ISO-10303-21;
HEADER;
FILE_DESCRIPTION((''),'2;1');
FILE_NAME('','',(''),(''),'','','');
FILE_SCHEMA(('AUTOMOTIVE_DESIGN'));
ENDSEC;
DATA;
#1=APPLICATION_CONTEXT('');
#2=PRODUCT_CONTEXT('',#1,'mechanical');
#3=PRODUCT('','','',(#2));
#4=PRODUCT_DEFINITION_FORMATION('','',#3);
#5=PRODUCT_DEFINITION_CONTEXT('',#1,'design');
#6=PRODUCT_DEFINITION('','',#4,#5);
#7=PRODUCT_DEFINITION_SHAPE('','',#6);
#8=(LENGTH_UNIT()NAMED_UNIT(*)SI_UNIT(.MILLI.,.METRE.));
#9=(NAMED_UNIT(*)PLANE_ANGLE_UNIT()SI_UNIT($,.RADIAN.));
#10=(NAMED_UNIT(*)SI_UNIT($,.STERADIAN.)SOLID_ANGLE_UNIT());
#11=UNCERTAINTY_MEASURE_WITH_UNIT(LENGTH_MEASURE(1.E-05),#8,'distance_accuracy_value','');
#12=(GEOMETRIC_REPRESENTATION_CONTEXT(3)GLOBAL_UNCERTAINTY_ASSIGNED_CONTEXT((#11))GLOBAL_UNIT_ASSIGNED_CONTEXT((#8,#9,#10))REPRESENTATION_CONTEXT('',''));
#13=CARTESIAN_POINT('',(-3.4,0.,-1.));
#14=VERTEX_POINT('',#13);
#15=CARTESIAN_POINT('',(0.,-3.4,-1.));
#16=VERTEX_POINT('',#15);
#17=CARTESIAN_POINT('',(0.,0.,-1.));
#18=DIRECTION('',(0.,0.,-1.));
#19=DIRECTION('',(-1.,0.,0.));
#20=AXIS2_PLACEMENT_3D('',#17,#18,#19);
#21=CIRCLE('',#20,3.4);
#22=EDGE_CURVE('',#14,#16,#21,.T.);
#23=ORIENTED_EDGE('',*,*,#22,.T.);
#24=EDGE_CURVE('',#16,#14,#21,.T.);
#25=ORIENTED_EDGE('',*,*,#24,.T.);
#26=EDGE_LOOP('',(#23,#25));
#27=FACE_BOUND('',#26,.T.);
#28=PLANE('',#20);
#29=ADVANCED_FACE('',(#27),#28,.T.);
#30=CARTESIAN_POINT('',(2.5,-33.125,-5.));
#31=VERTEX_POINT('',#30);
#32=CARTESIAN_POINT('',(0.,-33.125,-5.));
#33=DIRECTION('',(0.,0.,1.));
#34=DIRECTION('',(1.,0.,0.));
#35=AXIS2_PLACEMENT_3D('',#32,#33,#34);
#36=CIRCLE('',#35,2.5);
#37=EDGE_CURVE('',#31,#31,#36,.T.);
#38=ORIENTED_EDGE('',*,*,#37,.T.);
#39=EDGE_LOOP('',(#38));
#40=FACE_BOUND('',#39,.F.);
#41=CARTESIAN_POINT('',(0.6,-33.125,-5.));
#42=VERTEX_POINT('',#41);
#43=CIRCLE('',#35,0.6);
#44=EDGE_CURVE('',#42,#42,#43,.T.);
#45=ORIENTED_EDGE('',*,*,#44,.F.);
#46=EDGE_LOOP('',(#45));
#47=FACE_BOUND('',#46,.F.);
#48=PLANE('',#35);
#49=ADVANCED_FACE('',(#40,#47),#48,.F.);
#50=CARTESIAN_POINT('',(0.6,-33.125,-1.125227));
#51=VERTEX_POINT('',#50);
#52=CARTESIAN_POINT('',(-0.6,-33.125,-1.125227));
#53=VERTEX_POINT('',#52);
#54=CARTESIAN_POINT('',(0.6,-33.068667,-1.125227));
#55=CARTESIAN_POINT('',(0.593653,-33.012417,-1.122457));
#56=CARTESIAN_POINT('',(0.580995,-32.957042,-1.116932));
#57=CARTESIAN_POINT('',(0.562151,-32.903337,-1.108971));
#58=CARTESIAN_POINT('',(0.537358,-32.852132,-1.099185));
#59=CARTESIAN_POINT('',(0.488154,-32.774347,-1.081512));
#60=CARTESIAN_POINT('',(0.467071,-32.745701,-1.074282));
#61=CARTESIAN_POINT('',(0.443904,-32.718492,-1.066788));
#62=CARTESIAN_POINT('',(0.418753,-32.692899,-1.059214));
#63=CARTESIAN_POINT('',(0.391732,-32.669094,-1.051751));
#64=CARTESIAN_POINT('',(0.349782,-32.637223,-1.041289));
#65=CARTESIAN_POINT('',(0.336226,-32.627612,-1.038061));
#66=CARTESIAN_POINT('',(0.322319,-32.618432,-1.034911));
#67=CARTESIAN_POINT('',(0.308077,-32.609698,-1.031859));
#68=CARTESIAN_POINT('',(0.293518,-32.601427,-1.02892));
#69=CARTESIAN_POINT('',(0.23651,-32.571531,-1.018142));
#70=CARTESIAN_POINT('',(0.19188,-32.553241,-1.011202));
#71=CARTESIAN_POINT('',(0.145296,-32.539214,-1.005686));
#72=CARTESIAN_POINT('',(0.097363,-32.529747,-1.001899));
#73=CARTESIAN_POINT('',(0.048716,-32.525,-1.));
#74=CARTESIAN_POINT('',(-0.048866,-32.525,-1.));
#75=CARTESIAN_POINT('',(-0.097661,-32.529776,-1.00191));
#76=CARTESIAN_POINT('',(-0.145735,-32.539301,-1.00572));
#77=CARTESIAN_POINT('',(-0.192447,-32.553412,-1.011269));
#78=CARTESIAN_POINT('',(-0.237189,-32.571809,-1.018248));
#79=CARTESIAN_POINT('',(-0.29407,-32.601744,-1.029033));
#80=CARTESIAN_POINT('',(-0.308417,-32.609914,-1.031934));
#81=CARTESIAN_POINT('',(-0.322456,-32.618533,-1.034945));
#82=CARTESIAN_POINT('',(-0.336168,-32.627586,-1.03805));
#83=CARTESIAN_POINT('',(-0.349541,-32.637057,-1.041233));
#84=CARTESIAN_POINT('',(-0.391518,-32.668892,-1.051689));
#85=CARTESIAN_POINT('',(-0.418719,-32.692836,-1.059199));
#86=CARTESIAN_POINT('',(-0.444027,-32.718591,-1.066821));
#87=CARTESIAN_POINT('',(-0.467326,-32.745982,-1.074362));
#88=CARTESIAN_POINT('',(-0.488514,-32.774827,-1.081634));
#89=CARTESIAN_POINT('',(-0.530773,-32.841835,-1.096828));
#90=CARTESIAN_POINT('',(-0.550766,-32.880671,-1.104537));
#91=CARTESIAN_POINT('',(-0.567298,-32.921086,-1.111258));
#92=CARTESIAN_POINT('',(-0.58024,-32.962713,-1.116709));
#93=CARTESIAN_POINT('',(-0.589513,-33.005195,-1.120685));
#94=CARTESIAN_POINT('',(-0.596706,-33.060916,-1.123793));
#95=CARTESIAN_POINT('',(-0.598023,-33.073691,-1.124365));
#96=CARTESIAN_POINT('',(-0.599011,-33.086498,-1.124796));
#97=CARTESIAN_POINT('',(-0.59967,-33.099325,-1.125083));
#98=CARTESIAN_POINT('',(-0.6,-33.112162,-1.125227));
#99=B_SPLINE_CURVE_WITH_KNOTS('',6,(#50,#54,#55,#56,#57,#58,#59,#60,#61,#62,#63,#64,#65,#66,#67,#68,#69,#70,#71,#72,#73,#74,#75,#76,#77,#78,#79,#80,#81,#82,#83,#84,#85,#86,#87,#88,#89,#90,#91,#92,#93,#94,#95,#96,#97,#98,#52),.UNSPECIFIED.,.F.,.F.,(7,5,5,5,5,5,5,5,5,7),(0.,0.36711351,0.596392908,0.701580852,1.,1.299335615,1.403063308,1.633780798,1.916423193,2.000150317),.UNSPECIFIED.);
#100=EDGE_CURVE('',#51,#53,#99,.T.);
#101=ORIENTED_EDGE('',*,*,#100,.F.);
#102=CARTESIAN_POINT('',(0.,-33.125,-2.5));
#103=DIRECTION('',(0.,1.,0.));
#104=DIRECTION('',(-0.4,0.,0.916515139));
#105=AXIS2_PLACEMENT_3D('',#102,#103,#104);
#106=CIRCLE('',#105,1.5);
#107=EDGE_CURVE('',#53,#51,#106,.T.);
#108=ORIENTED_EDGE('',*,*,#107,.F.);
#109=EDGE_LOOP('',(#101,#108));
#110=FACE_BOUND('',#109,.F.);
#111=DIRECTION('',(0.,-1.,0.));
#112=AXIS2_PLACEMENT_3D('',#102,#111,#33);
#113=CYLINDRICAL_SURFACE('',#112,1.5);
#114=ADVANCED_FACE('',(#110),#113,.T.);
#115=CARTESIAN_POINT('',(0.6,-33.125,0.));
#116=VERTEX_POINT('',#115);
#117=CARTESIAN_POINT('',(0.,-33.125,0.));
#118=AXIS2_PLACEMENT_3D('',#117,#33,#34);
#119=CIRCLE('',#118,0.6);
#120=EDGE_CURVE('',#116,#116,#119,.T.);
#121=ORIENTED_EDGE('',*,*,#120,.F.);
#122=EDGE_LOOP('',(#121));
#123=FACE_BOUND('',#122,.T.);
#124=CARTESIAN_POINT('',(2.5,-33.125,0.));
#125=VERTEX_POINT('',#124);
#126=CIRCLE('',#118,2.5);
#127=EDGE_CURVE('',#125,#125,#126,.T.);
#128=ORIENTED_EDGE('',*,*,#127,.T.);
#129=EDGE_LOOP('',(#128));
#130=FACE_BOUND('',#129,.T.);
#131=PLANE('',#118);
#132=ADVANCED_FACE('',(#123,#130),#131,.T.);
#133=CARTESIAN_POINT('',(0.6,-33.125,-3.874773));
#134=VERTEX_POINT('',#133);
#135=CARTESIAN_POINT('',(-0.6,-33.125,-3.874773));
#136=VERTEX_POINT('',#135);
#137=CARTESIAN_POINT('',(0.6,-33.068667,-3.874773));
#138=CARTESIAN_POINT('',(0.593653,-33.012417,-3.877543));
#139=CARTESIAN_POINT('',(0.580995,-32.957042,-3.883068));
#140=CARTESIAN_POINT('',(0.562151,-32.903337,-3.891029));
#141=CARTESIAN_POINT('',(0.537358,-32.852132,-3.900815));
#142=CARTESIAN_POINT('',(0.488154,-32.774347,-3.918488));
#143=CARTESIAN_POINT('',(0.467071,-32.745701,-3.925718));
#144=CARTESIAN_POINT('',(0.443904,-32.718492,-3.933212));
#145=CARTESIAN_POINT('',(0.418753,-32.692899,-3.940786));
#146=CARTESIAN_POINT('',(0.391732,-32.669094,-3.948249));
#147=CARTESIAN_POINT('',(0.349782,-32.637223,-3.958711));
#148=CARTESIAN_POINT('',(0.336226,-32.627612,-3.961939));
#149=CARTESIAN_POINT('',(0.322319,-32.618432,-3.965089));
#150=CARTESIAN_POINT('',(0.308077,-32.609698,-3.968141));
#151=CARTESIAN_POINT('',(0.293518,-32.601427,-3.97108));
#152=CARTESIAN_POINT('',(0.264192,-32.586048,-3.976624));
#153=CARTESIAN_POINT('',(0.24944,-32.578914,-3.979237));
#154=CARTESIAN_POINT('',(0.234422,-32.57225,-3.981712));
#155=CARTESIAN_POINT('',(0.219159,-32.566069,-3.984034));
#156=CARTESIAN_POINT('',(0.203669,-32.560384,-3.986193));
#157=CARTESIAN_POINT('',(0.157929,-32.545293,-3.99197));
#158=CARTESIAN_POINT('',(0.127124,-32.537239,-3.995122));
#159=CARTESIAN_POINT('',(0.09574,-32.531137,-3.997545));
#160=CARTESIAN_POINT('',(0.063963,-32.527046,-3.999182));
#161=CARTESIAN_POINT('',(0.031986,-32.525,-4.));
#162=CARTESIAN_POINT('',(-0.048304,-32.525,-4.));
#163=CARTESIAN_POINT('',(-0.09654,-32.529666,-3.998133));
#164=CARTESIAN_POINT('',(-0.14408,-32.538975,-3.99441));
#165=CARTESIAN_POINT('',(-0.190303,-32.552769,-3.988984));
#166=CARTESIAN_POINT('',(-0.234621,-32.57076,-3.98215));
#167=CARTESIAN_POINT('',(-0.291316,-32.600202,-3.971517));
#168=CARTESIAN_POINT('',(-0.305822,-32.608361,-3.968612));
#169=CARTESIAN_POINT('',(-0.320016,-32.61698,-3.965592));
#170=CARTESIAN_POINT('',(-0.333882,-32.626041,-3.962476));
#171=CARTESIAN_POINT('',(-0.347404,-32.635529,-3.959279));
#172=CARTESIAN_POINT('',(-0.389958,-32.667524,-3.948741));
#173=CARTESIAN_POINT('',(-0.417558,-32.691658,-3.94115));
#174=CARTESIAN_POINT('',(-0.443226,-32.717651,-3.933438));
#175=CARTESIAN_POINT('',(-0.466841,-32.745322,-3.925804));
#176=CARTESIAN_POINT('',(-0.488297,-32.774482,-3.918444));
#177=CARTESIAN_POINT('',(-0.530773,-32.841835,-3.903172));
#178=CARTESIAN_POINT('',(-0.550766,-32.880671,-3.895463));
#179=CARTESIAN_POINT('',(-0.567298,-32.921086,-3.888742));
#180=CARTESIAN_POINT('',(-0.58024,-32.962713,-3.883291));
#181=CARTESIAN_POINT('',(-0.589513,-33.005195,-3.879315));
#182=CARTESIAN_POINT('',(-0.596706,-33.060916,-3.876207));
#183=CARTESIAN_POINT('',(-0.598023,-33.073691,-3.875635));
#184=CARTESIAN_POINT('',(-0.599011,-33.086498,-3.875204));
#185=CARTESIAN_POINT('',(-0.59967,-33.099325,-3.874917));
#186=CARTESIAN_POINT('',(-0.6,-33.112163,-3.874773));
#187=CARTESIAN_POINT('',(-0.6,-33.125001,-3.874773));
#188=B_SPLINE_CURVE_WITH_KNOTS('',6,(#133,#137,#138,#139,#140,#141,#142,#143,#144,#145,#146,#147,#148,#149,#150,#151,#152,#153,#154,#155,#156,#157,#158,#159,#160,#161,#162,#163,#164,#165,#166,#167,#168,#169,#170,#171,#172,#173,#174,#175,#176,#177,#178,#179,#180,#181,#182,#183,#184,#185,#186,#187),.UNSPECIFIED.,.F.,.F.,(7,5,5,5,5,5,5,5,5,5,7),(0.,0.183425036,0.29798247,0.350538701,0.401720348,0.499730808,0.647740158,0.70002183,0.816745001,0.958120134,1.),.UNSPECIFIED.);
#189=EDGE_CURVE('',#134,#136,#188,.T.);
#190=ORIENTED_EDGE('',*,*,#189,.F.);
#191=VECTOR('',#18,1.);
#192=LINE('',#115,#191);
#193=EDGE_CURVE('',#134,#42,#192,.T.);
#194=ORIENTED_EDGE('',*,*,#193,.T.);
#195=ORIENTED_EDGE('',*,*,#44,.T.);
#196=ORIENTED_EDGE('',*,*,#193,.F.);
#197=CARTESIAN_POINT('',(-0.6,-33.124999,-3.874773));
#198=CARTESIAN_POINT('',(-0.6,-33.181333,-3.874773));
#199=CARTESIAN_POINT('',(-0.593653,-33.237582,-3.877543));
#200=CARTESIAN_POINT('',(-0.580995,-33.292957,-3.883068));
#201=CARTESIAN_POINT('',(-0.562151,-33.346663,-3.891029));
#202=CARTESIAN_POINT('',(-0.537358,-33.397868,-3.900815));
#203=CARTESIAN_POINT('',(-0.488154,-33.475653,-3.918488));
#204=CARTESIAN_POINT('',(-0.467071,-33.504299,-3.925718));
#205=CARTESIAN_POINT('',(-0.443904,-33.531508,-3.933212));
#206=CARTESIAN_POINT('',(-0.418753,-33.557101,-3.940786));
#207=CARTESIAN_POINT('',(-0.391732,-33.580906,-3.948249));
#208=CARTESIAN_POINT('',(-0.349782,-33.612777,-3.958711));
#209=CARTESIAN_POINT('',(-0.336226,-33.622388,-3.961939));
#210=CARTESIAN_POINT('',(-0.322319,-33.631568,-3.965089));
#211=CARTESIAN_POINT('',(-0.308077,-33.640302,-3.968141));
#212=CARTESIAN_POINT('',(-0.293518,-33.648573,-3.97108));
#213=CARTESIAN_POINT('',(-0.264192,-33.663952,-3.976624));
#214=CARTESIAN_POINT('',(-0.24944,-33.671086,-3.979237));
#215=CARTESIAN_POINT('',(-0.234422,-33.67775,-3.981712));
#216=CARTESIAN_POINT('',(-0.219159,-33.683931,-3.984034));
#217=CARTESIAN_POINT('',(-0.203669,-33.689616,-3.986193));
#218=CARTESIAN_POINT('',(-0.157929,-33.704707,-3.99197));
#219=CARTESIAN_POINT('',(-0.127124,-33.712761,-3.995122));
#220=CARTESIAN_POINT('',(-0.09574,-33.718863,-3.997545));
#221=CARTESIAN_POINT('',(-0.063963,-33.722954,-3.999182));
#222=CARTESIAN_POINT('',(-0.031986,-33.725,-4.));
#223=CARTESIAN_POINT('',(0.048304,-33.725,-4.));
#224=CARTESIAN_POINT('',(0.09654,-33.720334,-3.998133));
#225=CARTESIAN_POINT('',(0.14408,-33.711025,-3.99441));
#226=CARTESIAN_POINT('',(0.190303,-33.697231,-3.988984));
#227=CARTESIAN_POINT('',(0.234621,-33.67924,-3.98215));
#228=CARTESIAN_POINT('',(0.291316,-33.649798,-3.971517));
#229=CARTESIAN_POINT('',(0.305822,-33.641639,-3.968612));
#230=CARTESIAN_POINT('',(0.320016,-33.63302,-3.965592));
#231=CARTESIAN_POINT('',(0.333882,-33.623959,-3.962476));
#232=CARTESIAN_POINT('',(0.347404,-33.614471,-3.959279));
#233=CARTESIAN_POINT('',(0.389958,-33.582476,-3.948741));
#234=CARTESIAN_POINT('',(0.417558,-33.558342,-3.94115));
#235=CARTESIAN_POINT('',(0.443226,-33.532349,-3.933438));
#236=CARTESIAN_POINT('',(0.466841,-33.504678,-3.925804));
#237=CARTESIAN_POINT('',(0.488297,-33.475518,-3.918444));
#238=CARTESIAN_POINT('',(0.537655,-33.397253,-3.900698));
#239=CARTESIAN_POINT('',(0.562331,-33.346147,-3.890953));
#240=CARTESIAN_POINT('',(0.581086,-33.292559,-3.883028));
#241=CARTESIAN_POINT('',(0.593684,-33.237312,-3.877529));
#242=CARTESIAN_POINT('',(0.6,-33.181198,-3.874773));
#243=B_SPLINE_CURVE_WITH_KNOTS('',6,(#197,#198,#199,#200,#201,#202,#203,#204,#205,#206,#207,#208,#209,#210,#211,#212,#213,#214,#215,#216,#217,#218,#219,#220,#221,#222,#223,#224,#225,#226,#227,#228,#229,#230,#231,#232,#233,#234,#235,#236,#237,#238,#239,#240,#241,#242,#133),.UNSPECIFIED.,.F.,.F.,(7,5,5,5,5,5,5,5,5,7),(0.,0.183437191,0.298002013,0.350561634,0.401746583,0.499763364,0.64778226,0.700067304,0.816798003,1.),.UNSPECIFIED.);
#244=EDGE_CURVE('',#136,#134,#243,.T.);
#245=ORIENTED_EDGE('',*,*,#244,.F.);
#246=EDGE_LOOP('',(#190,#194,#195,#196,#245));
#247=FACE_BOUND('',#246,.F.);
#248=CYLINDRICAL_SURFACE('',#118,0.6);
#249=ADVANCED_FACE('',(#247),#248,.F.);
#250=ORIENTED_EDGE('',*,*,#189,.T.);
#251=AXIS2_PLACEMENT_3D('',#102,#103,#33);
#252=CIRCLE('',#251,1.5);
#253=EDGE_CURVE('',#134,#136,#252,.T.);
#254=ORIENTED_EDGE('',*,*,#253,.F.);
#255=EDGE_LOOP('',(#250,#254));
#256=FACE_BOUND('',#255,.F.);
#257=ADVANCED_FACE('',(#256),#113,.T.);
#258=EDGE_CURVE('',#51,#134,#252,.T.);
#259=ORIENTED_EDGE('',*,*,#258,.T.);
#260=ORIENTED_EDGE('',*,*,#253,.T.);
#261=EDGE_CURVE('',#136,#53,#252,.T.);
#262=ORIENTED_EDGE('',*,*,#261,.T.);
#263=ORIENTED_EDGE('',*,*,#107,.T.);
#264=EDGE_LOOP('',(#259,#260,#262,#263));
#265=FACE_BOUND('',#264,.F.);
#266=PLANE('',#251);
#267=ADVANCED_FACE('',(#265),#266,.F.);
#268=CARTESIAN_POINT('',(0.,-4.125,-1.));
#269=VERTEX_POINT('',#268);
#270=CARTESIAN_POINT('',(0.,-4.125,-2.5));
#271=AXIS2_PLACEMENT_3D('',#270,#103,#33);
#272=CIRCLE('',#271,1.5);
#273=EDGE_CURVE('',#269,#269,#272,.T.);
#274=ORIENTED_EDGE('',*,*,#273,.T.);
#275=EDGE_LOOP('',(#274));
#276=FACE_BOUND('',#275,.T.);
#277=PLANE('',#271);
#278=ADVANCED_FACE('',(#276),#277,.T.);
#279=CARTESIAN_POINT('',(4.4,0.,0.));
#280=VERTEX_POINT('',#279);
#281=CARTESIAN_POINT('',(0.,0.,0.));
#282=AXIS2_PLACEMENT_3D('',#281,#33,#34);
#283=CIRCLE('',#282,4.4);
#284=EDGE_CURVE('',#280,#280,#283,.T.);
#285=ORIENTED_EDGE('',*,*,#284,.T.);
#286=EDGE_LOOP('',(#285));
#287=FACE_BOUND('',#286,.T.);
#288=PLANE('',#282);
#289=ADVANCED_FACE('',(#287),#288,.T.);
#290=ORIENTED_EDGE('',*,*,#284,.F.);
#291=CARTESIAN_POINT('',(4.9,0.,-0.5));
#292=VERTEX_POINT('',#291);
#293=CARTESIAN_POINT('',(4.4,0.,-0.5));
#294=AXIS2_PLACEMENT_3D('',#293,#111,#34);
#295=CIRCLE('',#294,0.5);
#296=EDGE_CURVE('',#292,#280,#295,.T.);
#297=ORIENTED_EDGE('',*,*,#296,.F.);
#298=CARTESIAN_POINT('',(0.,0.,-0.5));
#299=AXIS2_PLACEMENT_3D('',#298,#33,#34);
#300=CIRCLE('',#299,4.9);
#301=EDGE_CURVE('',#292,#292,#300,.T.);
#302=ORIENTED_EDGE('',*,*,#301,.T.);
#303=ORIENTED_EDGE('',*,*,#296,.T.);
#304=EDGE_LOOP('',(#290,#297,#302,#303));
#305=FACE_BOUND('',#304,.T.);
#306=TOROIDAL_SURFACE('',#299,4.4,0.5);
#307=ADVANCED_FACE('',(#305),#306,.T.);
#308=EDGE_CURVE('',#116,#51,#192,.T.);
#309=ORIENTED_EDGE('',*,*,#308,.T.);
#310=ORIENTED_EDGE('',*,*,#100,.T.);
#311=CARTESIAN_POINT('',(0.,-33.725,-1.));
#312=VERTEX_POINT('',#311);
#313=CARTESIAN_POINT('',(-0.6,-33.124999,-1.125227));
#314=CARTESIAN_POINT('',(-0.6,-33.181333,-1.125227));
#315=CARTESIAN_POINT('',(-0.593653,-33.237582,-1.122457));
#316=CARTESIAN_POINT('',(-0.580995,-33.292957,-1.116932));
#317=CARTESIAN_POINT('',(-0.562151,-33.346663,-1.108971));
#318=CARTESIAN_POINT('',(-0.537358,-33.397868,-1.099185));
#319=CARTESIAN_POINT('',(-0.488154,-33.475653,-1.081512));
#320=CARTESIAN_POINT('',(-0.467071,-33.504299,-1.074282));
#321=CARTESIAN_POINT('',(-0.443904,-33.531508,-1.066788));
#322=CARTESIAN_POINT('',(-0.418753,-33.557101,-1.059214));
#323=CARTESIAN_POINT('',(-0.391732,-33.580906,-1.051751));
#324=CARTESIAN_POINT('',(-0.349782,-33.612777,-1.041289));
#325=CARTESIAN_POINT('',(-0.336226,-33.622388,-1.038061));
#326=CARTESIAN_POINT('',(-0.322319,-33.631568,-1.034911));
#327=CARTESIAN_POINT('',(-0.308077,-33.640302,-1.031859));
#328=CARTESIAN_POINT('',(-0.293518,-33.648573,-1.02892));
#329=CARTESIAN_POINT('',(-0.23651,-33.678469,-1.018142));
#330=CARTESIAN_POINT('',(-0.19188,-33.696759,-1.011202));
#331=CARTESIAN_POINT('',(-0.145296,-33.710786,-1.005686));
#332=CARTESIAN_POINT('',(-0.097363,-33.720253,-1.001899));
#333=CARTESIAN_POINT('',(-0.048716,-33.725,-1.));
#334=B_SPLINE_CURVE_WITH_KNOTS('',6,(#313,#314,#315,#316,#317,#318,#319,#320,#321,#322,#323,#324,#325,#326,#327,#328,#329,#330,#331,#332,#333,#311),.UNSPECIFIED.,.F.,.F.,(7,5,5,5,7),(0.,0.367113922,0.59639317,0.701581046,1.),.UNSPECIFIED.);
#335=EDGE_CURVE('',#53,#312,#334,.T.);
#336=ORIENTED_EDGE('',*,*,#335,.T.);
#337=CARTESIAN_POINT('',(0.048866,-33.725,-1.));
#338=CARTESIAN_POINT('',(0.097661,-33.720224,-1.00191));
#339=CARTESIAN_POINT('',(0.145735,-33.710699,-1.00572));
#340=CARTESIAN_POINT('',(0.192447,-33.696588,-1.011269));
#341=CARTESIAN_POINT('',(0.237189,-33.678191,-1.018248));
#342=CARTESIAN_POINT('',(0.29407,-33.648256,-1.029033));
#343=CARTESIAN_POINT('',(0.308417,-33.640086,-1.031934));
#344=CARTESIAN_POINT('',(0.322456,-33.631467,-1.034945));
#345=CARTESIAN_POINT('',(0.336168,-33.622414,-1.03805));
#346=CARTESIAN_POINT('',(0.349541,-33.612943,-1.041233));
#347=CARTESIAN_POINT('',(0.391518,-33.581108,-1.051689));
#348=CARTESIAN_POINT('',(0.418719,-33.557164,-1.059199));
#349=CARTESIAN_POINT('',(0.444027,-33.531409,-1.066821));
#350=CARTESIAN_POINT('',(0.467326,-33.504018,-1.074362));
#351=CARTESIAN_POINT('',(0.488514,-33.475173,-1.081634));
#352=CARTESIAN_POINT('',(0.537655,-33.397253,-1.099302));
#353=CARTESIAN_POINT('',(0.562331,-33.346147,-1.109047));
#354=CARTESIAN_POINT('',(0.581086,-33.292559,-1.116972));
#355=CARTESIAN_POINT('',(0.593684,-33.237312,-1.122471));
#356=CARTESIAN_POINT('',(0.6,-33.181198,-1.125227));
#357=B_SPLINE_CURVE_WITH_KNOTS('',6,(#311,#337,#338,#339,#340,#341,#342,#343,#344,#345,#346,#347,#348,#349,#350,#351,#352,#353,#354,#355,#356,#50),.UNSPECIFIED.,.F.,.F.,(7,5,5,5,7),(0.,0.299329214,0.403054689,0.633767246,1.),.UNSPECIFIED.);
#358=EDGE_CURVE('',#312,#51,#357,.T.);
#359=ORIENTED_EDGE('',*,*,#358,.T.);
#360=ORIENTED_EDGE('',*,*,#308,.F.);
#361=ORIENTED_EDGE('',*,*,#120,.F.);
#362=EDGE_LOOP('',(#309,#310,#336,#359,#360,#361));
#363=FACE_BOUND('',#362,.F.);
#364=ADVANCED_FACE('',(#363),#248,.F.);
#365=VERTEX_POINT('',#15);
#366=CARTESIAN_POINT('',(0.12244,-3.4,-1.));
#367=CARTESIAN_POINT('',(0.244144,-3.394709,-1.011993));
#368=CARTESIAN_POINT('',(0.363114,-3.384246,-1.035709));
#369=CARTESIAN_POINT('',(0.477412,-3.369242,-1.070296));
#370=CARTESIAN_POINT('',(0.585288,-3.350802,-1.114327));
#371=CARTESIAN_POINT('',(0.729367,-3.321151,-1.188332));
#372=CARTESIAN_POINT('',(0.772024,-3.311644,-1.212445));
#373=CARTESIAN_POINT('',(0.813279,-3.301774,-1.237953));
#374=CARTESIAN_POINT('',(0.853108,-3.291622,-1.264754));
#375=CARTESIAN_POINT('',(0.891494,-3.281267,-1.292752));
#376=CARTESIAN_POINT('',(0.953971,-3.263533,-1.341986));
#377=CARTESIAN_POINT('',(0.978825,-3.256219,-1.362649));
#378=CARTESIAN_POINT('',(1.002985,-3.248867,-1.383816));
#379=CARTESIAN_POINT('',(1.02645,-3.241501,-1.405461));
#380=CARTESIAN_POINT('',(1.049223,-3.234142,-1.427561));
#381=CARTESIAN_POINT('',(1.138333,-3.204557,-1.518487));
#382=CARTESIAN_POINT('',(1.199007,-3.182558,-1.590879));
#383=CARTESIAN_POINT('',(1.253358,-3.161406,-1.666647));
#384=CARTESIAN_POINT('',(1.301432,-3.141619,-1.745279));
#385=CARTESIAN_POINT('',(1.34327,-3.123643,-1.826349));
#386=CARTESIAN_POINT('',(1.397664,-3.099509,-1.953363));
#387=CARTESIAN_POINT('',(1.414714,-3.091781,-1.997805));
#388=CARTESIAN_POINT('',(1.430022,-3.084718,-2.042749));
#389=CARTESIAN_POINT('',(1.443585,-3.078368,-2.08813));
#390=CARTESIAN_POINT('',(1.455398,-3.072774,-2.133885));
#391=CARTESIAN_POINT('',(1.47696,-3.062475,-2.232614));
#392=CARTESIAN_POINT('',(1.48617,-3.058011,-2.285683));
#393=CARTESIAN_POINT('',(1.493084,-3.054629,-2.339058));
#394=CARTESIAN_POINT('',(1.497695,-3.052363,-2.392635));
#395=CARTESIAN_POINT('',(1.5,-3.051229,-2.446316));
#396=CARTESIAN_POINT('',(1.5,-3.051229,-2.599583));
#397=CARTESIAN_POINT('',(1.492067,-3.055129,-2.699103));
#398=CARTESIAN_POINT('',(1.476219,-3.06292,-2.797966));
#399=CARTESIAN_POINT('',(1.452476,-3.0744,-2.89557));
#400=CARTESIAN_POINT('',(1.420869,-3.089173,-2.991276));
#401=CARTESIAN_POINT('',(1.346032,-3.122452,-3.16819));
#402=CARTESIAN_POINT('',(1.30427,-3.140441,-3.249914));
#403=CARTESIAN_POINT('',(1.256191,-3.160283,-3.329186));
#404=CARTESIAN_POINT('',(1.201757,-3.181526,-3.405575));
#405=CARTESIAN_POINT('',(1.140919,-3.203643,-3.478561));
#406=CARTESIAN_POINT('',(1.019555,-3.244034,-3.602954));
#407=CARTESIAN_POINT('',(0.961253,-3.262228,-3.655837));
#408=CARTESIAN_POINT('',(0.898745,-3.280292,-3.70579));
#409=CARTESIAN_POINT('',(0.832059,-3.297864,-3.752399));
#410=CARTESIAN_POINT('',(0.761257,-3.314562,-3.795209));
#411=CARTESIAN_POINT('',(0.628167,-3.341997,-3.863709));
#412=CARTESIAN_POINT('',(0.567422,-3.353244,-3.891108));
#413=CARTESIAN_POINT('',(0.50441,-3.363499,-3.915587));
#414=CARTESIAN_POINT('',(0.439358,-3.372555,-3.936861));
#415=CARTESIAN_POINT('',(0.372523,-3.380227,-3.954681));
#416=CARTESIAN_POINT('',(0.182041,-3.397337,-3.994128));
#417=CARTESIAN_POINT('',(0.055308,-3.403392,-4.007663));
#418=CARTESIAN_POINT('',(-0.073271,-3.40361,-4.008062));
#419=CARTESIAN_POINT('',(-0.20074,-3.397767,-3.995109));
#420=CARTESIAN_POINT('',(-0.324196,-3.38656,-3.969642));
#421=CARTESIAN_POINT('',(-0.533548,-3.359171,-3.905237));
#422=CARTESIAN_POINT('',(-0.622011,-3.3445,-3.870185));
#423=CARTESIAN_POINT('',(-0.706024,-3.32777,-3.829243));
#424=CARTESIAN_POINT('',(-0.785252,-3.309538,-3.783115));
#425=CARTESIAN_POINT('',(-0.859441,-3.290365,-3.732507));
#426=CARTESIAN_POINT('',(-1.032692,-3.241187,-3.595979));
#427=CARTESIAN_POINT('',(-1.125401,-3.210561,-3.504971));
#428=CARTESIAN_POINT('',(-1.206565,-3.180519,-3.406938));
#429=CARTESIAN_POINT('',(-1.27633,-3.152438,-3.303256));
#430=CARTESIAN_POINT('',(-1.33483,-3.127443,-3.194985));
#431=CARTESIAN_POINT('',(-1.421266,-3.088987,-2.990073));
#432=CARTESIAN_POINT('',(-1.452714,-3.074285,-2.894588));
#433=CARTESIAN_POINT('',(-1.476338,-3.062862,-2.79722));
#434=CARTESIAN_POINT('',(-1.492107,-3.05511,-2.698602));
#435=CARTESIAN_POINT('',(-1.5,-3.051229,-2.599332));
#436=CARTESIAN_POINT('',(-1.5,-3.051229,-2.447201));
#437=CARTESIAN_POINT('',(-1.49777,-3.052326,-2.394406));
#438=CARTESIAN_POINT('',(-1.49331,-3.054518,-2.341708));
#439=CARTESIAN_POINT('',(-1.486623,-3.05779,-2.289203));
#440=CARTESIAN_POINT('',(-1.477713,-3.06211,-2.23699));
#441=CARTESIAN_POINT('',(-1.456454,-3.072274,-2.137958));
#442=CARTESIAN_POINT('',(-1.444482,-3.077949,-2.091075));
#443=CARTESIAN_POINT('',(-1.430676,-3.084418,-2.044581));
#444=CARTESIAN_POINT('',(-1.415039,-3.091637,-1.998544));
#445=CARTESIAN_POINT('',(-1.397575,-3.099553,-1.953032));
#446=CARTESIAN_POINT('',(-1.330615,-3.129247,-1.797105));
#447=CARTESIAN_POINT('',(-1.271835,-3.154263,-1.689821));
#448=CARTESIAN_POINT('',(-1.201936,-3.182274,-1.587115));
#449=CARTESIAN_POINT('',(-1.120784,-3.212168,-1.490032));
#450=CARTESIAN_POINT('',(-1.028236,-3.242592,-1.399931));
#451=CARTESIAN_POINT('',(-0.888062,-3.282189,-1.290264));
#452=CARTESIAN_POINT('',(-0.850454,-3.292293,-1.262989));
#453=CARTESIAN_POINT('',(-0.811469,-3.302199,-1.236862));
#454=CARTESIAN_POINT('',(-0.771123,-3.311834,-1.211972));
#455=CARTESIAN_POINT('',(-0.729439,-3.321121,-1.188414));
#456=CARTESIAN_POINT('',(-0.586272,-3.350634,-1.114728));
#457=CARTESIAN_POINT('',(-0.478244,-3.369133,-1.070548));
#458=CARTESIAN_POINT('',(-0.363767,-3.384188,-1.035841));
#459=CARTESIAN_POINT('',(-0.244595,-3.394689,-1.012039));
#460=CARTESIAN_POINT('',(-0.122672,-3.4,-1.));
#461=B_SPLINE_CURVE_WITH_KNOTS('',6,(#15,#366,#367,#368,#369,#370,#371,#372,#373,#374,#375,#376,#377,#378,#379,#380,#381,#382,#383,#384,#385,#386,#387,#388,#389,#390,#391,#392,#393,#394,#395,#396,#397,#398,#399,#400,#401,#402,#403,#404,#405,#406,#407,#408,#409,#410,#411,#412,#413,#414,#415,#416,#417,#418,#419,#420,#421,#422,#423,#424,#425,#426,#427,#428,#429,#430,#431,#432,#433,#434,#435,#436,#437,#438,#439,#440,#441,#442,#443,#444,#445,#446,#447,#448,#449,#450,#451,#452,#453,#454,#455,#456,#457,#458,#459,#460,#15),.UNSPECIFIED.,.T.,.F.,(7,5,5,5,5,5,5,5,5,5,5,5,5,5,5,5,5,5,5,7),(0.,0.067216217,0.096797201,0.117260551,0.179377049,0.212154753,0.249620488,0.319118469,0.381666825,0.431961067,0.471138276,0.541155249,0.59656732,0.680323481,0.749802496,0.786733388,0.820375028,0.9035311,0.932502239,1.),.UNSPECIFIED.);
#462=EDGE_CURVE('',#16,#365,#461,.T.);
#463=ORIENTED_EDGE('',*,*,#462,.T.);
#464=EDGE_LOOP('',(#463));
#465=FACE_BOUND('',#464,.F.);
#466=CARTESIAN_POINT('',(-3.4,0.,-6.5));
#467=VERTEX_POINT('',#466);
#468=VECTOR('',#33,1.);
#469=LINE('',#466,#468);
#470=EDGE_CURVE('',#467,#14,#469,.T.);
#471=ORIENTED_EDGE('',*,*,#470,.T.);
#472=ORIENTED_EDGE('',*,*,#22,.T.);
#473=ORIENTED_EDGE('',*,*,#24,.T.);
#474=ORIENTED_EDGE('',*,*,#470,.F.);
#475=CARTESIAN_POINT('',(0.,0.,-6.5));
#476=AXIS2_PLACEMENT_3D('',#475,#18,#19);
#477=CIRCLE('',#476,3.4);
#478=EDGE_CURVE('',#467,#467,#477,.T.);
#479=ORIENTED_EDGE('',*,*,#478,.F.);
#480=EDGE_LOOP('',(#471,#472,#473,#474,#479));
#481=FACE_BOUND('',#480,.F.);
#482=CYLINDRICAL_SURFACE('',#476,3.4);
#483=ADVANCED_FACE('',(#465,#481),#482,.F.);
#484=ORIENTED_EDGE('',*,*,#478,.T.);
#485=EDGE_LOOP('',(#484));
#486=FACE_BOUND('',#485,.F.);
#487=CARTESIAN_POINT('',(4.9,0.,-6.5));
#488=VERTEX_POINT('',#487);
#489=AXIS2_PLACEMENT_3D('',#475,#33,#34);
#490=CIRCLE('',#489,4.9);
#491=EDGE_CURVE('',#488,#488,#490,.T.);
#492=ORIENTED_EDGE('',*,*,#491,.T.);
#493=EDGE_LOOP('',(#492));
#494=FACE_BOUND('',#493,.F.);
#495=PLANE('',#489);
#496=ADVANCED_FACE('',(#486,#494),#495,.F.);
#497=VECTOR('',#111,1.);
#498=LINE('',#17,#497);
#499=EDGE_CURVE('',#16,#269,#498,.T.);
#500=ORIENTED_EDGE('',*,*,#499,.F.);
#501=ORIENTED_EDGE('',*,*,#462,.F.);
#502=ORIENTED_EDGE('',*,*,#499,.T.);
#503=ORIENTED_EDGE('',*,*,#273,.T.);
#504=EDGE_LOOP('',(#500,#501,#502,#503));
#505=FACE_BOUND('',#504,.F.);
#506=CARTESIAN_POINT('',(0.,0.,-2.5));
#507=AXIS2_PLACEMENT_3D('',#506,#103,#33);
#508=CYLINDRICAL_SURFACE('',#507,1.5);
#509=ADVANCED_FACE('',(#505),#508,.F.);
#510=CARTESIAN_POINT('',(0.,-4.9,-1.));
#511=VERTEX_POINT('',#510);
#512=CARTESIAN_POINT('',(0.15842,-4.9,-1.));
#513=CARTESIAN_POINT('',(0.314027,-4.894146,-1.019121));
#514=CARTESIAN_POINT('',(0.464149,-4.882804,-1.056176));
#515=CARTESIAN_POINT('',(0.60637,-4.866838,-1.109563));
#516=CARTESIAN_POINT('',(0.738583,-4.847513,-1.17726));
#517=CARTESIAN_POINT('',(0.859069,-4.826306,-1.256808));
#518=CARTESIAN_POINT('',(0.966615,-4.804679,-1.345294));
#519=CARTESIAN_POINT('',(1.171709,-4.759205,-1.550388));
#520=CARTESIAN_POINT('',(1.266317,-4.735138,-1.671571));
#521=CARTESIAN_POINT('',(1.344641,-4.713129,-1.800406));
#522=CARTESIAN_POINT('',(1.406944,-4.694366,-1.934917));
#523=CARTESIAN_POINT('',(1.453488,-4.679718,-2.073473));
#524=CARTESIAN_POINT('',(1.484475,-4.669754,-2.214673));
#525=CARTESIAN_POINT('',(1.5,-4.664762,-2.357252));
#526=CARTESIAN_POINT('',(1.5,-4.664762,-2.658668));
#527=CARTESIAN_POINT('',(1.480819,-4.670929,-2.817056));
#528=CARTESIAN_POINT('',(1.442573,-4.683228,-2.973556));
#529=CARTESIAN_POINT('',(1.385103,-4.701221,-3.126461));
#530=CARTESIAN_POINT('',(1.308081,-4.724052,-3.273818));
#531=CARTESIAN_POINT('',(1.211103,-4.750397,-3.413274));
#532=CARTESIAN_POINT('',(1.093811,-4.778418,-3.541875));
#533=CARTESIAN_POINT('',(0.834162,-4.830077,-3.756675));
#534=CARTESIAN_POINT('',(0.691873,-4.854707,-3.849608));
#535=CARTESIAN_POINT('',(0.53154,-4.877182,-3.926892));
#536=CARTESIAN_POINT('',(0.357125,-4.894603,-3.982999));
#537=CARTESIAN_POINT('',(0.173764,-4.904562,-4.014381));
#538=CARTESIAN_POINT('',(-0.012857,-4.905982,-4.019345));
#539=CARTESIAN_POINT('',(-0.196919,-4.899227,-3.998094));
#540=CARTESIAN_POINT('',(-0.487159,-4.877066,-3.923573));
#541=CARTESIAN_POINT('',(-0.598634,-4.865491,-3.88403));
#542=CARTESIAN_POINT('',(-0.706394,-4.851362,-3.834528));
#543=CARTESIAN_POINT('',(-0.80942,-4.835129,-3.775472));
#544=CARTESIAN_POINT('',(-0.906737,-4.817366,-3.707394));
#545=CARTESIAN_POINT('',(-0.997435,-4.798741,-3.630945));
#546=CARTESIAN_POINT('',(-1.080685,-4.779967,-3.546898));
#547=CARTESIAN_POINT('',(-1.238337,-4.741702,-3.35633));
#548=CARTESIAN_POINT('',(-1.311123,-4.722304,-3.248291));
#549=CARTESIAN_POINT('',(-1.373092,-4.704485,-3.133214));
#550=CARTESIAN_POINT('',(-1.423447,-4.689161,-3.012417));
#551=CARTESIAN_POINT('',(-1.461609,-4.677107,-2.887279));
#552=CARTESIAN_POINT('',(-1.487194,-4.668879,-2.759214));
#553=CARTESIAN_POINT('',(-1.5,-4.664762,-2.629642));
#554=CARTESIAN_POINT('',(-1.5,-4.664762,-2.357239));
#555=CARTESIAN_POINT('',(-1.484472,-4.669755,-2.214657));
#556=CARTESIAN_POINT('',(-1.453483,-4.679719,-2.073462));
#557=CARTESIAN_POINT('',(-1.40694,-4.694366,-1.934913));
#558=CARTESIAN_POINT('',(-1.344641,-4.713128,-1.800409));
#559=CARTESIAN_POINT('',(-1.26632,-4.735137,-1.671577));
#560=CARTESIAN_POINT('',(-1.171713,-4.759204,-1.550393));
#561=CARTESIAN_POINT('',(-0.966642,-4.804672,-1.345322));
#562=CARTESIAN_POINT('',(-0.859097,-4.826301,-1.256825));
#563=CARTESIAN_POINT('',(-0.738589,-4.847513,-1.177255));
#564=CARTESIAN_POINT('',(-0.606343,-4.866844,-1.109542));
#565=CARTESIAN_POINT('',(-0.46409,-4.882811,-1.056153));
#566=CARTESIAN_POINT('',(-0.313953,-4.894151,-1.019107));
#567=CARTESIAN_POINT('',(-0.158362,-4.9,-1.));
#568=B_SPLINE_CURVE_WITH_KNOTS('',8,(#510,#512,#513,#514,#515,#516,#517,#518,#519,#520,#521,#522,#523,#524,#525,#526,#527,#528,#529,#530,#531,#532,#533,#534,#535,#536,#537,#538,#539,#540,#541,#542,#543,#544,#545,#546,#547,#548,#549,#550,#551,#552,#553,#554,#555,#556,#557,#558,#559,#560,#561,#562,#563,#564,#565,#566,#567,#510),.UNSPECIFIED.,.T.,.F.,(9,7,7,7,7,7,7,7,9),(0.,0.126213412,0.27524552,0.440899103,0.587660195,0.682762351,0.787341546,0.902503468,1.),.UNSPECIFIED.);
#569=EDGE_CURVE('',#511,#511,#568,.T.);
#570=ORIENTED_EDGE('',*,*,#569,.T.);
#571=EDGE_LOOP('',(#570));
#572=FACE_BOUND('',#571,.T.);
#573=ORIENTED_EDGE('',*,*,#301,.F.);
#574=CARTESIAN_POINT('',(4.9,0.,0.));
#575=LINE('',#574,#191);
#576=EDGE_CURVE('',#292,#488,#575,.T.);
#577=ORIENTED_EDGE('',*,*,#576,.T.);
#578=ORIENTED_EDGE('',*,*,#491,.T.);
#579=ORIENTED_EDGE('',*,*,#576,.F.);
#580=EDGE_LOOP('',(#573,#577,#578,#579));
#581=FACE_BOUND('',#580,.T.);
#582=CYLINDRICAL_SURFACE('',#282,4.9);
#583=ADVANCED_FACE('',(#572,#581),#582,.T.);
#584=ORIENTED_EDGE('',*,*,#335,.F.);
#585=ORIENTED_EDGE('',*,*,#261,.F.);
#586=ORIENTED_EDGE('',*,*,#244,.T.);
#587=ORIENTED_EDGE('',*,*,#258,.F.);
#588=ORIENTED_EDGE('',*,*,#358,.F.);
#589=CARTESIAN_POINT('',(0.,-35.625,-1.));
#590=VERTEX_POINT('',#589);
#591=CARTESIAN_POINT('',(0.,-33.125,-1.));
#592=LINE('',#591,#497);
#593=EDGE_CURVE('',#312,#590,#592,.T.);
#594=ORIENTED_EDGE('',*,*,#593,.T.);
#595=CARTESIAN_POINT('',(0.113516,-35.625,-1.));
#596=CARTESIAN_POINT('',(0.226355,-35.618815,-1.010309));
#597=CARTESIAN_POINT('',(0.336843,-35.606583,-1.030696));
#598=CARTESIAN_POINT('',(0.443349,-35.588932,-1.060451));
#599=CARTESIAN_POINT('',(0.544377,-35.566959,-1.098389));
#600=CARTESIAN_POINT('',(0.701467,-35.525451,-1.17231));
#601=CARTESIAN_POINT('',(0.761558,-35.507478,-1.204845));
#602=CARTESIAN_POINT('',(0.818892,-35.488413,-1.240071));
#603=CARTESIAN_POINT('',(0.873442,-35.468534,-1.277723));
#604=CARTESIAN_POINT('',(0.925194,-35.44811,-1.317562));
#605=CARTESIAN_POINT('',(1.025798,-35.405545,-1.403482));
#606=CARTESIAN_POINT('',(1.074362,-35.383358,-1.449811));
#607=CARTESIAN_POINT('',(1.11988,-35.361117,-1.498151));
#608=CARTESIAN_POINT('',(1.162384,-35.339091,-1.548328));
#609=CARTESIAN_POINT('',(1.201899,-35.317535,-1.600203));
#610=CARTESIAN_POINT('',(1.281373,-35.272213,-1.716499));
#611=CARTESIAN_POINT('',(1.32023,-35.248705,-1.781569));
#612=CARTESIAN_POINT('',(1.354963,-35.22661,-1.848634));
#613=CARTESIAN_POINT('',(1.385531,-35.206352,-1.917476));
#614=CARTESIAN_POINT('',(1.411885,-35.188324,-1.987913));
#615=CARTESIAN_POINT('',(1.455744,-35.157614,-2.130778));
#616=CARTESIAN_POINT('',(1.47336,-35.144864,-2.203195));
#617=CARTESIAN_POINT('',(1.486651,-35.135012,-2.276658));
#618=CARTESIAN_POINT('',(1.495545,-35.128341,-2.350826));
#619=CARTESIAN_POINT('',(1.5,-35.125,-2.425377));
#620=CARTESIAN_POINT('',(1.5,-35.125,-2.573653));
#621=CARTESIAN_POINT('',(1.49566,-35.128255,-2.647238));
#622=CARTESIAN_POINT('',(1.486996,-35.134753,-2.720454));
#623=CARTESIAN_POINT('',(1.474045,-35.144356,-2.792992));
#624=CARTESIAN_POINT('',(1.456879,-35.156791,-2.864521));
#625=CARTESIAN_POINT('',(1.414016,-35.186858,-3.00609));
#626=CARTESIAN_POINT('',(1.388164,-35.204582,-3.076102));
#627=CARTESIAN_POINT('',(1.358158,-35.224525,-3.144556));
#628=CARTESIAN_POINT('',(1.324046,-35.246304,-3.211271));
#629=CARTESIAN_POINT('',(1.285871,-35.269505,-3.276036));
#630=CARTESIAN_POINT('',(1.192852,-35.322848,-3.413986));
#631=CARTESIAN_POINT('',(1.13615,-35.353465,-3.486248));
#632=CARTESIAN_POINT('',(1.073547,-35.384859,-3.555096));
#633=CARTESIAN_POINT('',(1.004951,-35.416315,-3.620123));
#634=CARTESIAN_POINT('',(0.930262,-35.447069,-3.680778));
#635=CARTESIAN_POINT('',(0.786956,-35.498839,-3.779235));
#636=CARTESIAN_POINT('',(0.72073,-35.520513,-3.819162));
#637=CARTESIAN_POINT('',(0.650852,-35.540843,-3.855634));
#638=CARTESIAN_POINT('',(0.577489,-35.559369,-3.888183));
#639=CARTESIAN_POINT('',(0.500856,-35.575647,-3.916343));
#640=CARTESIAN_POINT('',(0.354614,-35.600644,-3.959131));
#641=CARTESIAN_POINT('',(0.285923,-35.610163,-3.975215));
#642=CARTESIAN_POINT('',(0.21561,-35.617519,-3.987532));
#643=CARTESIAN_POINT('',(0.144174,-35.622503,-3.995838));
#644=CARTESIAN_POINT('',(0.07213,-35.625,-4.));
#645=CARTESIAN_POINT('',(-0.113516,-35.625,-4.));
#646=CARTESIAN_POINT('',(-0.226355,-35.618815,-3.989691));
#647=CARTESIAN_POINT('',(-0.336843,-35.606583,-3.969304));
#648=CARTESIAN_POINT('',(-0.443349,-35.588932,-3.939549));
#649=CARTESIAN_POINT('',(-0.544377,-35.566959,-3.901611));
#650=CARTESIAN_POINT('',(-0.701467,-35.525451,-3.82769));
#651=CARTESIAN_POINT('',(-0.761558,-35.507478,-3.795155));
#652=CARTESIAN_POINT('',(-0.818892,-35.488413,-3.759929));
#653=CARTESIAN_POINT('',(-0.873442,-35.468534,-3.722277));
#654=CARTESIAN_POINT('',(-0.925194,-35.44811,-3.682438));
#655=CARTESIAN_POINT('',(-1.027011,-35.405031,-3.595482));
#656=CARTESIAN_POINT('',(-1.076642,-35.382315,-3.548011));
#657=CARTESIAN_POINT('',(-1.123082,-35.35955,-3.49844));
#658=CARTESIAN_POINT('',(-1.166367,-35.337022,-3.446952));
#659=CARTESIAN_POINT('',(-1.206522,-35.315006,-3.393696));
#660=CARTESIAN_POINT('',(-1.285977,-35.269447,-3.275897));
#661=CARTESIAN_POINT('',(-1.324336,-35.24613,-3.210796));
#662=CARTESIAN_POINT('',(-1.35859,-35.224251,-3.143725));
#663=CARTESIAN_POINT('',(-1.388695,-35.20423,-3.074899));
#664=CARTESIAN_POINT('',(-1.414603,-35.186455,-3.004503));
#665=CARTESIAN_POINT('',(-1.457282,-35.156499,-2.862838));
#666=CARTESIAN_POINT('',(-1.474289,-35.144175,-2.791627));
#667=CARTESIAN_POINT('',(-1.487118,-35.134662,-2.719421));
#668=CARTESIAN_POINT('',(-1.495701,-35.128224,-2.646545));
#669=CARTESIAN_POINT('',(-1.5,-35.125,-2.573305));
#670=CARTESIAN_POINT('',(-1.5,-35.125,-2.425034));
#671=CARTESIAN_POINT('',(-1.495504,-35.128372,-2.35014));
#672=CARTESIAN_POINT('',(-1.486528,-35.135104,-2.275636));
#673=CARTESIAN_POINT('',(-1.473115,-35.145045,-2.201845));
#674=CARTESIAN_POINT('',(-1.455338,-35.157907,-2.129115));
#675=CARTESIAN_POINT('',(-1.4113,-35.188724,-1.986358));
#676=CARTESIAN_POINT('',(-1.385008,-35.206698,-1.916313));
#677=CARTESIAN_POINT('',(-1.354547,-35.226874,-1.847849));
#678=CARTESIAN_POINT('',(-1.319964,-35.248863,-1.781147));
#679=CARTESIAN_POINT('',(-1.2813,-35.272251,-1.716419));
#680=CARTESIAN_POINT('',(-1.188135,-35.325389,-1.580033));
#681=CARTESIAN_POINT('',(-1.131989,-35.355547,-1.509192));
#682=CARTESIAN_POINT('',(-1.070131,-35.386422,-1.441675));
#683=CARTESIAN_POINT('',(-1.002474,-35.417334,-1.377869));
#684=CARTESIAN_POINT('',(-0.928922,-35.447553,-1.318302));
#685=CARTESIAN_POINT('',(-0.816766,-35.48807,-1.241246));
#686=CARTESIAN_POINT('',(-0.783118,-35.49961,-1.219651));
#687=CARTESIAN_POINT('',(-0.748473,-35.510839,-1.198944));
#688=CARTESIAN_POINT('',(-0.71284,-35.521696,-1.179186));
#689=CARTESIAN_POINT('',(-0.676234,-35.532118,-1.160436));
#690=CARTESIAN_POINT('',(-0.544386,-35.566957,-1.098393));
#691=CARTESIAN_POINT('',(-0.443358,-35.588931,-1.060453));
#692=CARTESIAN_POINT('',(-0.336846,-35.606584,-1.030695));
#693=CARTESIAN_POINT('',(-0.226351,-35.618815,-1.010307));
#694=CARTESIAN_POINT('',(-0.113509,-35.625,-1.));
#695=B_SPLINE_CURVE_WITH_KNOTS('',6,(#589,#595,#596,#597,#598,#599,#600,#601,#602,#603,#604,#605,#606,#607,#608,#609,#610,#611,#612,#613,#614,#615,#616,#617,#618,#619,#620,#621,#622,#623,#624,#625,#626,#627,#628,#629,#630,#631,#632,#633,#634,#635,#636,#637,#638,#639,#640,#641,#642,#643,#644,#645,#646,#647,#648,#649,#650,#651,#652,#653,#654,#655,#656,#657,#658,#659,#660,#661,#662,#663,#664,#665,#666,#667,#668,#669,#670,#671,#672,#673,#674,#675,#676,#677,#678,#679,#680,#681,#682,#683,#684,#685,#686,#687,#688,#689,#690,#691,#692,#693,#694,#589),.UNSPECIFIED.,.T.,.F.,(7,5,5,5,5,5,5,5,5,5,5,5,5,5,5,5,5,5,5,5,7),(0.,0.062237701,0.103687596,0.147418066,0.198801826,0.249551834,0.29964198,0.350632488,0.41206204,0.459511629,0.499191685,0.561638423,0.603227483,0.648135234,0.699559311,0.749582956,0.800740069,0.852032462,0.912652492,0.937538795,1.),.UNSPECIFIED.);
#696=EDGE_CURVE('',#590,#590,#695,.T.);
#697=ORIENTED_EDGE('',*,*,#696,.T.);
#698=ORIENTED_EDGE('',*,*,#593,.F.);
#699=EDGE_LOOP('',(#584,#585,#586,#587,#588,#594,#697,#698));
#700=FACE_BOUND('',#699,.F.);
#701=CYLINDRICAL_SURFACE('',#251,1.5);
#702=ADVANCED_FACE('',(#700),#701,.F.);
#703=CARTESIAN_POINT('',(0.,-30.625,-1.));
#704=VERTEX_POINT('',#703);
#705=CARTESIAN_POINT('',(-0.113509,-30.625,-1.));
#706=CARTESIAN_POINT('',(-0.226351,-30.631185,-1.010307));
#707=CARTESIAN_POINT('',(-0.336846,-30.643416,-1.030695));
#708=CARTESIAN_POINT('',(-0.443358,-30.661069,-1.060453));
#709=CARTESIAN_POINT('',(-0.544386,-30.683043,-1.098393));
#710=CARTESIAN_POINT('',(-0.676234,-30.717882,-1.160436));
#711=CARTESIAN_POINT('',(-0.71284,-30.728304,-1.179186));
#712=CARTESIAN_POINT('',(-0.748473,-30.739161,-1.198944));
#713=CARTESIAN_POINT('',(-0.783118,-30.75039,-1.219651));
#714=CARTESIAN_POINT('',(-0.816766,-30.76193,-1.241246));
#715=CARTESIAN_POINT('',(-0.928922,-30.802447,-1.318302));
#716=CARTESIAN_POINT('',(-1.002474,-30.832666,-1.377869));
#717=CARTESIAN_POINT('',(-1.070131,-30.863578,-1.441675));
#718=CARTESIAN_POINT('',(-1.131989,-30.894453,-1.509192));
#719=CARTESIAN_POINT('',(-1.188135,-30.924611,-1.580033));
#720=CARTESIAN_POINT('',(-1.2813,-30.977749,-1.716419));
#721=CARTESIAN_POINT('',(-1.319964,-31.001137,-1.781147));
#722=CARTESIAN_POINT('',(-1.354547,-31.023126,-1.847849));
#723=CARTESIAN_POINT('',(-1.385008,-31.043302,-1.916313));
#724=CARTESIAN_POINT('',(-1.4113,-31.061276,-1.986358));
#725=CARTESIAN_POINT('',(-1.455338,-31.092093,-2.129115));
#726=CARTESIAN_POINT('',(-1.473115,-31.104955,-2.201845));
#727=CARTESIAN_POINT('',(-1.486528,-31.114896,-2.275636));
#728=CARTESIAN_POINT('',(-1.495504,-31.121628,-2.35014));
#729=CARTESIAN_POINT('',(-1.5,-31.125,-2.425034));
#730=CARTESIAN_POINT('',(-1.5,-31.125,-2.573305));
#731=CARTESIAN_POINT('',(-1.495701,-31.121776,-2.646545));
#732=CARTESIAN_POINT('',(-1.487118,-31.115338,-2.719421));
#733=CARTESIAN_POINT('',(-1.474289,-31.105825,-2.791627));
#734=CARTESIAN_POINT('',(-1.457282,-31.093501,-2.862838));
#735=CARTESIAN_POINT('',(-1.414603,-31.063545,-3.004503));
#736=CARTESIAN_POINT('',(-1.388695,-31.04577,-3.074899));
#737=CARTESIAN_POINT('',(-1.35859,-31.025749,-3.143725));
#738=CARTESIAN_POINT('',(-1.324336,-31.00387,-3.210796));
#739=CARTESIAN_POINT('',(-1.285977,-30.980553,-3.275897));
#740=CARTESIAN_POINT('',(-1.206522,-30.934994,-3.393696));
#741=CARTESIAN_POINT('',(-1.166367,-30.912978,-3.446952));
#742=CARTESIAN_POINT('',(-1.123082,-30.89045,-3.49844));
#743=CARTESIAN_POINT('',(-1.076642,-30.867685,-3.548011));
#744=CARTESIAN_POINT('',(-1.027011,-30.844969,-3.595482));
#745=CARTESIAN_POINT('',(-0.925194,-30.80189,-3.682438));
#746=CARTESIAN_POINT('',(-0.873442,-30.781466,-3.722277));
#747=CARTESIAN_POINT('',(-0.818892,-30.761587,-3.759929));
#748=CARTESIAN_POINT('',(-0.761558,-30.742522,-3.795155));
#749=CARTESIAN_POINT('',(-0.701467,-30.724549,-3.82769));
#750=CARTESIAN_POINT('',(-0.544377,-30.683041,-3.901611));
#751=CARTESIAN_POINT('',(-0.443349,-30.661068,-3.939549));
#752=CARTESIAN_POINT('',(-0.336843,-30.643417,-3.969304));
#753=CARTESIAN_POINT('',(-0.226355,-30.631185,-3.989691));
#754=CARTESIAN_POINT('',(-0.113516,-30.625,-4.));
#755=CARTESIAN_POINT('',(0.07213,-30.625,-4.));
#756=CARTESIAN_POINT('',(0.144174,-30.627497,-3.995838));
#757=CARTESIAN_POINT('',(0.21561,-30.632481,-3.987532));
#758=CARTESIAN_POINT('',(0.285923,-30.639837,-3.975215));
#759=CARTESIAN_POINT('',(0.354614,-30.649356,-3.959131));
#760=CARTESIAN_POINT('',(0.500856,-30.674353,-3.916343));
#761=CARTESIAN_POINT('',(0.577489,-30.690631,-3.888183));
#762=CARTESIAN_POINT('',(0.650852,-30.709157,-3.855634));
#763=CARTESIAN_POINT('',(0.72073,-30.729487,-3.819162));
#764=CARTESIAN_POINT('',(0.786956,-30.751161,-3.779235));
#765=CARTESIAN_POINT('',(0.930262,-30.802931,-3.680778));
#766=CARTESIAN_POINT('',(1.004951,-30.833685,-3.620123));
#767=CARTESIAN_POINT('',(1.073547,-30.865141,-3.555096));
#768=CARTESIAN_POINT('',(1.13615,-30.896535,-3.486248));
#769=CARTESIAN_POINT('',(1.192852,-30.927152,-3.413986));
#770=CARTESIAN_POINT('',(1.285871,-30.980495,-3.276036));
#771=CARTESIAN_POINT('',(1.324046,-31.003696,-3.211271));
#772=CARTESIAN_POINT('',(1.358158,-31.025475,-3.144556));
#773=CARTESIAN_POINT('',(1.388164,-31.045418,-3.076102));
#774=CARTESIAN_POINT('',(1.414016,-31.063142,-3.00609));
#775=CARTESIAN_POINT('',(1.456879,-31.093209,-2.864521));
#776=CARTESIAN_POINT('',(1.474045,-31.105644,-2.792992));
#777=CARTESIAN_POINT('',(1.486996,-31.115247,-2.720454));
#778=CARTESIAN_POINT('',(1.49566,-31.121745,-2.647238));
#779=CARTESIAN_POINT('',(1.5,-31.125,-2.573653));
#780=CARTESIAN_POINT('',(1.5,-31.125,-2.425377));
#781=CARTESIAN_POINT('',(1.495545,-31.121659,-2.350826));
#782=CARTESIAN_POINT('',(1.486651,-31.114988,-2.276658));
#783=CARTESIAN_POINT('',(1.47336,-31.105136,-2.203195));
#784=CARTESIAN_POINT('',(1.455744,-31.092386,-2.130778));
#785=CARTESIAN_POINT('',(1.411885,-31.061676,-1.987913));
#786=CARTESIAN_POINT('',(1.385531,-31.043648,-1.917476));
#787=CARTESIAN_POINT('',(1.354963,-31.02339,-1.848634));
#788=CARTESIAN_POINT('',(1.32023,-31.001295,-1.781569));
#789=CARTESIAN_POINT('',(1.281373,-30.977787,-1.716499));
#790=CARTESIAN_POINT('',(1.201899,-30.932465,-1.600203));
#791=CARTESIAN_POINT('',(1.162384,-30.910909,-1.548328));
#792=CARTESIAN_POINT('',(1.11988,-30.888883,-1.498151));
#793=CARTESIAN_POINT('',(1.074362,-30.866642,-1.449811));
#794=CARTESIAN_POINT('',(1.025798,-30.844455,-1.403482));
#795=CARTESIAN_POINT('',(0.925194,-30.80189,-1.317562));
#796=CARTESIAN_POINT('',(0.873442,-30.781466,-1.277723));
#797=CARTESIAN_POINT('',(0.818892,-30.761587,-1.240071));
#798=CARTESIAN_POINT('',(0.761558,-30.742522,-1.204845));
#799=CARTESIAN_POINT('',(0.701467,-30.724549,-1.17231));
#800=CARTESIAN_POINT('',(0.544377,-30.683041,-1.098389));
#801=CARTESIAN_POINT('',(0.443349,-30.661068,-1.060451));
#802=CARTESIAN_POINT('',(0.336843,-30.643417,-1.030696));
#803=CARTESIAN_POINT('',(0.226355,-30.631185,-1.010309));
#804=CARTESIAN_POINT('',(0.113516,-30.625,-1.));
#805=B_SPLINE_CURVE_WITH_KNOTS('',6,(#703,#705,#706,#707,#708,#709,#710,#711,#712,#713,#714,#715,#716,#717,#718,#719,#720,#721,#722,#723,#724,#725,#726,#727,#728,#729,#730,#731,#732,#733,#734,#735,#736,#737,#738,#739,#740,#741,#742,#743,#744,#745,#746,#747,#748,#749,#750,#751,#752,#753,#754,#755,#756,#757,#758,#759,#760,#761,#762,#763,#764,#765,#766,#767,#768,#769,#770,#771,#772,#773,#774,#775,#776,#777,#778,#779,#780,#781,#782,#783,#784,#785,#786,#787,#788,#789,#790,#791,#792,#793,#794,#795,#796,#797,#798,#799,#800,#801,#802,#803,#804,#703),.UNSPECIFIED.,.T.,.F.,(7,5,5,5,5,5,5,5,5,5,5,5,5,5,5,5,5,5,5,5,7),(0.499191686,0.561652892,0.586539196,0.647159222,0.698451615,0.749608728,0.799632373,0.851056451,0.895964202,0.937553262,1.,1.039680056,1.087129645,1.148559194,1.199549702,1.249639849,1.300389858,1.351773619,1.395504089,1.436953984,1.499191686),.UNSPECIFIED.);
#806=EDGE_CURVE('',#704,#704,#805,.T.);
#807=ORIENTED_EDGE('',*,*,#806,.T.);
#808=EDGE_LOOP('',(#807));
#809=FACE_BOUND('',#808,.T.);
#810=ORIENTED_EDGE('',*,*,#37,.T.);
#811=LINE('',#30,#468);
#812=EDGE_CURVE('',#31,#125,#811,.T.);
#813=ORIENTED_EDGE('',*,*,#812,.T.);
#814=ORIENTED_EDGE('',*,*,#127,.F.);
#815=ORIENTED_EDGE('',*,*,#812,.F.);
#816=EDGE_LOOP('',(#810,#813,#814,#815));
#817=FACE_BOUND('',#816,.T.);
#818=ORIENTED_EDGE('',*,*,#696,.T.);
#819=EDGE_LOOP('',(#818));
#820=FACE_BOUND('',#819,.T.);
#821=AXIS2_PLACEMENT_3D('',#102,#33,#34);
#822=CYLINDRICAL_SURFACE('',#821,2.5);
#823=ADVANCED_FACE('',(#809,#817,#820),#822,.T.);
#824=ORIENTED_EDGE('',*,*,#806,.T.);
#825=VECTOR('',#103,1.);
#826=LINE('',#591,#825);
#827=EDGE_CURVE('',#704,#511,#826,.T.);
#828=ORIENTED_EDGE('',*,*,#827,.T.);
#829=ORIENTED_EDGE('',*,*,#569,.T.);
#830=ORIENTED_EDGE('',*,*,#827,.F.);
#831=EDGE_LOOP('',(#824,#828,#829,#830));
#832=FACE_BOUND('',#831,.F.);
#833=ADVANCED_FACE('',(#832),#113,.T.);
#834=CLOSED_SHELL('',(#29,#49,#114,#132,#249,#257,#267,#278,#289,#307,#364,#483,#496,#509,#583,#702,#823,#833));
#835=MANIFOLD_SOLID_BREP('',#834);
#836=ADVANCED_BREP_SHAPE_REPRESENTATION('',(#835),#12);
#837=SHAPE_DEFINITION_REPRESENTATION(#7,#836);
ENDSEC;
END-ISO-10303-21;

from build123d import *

# Parameters (mm, degrees)
SKETCH_1_R               = 4.9
EXTRUDE_1_DEPTH          = 6.5
SKETCH_7_R               = 3.4
CUT_EXTRUDE_1_DEPTH      = 5.5
SKETCH_8_R               = 1.5
CUT_EXTRUDE_6_DEPTH      = 5.9
FILLET_3_R               = 0.5
SKETCH_15_R              = 2.5
EXTRUDE_6_DEPTH          = 2.5
EXTRUDE_6_DEPTH_BACK     = 2.5
SKETCH_16_R              = 1.5
CUT_EXTRUDE_7_DEPTH      = 2.5
CUT_EXTRUDE_7_DEPTH_BACK = 2.5
SKETCH_17_R              = 0.6
CUT_EXTRUDE_8_DEPTH      = 7.5000001
SKETCH_18_R              = 1.5
EXTRUDE_7_DEPTH          = 29


with BuildPart() as part:
    # Sketch 1 → Extrude 1 (new body)
    with BuildSketch(Plane.XY):
        Circle(SKETCH_1_R)
    extrude(amount=-EXTRUDE_1_DEPTH)

    # Sketch 7 → Cut-Extrude 1 (cut)
    with BuildSketch(Plane(origin=(0, 0, -6.5), x_dir=(-1, 0, 0), z_dir=(0, 0, -1))):
        Circle(SKETCH_7_R)
    extrude(amount=-CUT_EXTRUDE_1_DEPTH, mode=Mode.SUBTRACT)

    # Sketch 8 → Cut-Extrude 6 (cut, through all)
    with BuildSketch(Plane(origin=(0, 0, 0), x_dir=(1, 0, 0), z_dir=(0, 1, 0))):
        with Locations(Location((0, 2.5, 0), (0, 0, 270))):  # turned: the seam where the file's is
            Circle(SKETCH_8_R)
    extrude(amount=-CUT_EXTRUDE_6_DEPTH, mode=Mode.SUBTRACT)

    # Fillet 3
    fillet_3_edges = [part.edges().sort_by_distance(p)[0] for p in [
        (-4.9, 0, 0),
    ]]
    fillet(fillet_3_edges, radius=FILLET_3_R)



with BuildPart() as body_2:
    # Sketch 15 → Extrude 6 (new body, two sides)
    with BuildSketch(Plane.XY.offset(-2.5)) as extrude_6_sk:
        with Locations((0, -33.125)):
            Circle(SKETCH_15_R)
    extrude(amount=EXTRUDE_6_DEPTH)
    extrude(extrude_6_sk.sketch, amount=-EXTRUDE_6_DEPTH_BACK)

    # Sketch 16 → Cut-Extrude 7 (cut, two sides)
    with BuildSketch(Plane(origin=(0, -33.125, 0), x_dir=(1, 0, 0), z_dir=(0, 1, 0))) as cut_extrude_7_sk:
        with Locations(Location((0, 2.5, 0), (0, 0, 270))):  # turned: the seam where the file's is
            Circle(SKETCH_16_R)
    extrude(amount=CUT_EXTRUDE_7_DEPTH, mode=Mode.SUBTRACT)
    extrude(cut_extrude_7_sk.sketch, amount=-CUT_EXTRUDE_7_DEPTH_BACK, mode=Mode.SUBTRACT)

    # Sketch 17 → Cut-Extrude 8 (cut, through all)
    with BuildSketch(Plane.XY):
        with Locations((0, -33.125)):
            Circle(SKETCH_17_R)
    extrude(amount=-CUT_EXTRUDE_8_DEPTH, mode=Mode.SUBTRACT)


with BuildPart() as part_1:
    add(part.part)

    add(body_2.part)  # Extrude 7 merges body 2
    # Sketch 18 → Extrude 7 (add)
    with BuildSketch(Plane(origin=(0, -33.125, 0), x_dir=(1, 0, 0), z_dir=(0, 1, 0))):
        with Locations(Location((0, 2.5, 0), (0, 0, 270))):  # turned: the seam where the file's is
            Circle(SKETCH_18_R)
    extrude(amount=EXTRUDE_7_DEPTH)


solid = part_1.part
